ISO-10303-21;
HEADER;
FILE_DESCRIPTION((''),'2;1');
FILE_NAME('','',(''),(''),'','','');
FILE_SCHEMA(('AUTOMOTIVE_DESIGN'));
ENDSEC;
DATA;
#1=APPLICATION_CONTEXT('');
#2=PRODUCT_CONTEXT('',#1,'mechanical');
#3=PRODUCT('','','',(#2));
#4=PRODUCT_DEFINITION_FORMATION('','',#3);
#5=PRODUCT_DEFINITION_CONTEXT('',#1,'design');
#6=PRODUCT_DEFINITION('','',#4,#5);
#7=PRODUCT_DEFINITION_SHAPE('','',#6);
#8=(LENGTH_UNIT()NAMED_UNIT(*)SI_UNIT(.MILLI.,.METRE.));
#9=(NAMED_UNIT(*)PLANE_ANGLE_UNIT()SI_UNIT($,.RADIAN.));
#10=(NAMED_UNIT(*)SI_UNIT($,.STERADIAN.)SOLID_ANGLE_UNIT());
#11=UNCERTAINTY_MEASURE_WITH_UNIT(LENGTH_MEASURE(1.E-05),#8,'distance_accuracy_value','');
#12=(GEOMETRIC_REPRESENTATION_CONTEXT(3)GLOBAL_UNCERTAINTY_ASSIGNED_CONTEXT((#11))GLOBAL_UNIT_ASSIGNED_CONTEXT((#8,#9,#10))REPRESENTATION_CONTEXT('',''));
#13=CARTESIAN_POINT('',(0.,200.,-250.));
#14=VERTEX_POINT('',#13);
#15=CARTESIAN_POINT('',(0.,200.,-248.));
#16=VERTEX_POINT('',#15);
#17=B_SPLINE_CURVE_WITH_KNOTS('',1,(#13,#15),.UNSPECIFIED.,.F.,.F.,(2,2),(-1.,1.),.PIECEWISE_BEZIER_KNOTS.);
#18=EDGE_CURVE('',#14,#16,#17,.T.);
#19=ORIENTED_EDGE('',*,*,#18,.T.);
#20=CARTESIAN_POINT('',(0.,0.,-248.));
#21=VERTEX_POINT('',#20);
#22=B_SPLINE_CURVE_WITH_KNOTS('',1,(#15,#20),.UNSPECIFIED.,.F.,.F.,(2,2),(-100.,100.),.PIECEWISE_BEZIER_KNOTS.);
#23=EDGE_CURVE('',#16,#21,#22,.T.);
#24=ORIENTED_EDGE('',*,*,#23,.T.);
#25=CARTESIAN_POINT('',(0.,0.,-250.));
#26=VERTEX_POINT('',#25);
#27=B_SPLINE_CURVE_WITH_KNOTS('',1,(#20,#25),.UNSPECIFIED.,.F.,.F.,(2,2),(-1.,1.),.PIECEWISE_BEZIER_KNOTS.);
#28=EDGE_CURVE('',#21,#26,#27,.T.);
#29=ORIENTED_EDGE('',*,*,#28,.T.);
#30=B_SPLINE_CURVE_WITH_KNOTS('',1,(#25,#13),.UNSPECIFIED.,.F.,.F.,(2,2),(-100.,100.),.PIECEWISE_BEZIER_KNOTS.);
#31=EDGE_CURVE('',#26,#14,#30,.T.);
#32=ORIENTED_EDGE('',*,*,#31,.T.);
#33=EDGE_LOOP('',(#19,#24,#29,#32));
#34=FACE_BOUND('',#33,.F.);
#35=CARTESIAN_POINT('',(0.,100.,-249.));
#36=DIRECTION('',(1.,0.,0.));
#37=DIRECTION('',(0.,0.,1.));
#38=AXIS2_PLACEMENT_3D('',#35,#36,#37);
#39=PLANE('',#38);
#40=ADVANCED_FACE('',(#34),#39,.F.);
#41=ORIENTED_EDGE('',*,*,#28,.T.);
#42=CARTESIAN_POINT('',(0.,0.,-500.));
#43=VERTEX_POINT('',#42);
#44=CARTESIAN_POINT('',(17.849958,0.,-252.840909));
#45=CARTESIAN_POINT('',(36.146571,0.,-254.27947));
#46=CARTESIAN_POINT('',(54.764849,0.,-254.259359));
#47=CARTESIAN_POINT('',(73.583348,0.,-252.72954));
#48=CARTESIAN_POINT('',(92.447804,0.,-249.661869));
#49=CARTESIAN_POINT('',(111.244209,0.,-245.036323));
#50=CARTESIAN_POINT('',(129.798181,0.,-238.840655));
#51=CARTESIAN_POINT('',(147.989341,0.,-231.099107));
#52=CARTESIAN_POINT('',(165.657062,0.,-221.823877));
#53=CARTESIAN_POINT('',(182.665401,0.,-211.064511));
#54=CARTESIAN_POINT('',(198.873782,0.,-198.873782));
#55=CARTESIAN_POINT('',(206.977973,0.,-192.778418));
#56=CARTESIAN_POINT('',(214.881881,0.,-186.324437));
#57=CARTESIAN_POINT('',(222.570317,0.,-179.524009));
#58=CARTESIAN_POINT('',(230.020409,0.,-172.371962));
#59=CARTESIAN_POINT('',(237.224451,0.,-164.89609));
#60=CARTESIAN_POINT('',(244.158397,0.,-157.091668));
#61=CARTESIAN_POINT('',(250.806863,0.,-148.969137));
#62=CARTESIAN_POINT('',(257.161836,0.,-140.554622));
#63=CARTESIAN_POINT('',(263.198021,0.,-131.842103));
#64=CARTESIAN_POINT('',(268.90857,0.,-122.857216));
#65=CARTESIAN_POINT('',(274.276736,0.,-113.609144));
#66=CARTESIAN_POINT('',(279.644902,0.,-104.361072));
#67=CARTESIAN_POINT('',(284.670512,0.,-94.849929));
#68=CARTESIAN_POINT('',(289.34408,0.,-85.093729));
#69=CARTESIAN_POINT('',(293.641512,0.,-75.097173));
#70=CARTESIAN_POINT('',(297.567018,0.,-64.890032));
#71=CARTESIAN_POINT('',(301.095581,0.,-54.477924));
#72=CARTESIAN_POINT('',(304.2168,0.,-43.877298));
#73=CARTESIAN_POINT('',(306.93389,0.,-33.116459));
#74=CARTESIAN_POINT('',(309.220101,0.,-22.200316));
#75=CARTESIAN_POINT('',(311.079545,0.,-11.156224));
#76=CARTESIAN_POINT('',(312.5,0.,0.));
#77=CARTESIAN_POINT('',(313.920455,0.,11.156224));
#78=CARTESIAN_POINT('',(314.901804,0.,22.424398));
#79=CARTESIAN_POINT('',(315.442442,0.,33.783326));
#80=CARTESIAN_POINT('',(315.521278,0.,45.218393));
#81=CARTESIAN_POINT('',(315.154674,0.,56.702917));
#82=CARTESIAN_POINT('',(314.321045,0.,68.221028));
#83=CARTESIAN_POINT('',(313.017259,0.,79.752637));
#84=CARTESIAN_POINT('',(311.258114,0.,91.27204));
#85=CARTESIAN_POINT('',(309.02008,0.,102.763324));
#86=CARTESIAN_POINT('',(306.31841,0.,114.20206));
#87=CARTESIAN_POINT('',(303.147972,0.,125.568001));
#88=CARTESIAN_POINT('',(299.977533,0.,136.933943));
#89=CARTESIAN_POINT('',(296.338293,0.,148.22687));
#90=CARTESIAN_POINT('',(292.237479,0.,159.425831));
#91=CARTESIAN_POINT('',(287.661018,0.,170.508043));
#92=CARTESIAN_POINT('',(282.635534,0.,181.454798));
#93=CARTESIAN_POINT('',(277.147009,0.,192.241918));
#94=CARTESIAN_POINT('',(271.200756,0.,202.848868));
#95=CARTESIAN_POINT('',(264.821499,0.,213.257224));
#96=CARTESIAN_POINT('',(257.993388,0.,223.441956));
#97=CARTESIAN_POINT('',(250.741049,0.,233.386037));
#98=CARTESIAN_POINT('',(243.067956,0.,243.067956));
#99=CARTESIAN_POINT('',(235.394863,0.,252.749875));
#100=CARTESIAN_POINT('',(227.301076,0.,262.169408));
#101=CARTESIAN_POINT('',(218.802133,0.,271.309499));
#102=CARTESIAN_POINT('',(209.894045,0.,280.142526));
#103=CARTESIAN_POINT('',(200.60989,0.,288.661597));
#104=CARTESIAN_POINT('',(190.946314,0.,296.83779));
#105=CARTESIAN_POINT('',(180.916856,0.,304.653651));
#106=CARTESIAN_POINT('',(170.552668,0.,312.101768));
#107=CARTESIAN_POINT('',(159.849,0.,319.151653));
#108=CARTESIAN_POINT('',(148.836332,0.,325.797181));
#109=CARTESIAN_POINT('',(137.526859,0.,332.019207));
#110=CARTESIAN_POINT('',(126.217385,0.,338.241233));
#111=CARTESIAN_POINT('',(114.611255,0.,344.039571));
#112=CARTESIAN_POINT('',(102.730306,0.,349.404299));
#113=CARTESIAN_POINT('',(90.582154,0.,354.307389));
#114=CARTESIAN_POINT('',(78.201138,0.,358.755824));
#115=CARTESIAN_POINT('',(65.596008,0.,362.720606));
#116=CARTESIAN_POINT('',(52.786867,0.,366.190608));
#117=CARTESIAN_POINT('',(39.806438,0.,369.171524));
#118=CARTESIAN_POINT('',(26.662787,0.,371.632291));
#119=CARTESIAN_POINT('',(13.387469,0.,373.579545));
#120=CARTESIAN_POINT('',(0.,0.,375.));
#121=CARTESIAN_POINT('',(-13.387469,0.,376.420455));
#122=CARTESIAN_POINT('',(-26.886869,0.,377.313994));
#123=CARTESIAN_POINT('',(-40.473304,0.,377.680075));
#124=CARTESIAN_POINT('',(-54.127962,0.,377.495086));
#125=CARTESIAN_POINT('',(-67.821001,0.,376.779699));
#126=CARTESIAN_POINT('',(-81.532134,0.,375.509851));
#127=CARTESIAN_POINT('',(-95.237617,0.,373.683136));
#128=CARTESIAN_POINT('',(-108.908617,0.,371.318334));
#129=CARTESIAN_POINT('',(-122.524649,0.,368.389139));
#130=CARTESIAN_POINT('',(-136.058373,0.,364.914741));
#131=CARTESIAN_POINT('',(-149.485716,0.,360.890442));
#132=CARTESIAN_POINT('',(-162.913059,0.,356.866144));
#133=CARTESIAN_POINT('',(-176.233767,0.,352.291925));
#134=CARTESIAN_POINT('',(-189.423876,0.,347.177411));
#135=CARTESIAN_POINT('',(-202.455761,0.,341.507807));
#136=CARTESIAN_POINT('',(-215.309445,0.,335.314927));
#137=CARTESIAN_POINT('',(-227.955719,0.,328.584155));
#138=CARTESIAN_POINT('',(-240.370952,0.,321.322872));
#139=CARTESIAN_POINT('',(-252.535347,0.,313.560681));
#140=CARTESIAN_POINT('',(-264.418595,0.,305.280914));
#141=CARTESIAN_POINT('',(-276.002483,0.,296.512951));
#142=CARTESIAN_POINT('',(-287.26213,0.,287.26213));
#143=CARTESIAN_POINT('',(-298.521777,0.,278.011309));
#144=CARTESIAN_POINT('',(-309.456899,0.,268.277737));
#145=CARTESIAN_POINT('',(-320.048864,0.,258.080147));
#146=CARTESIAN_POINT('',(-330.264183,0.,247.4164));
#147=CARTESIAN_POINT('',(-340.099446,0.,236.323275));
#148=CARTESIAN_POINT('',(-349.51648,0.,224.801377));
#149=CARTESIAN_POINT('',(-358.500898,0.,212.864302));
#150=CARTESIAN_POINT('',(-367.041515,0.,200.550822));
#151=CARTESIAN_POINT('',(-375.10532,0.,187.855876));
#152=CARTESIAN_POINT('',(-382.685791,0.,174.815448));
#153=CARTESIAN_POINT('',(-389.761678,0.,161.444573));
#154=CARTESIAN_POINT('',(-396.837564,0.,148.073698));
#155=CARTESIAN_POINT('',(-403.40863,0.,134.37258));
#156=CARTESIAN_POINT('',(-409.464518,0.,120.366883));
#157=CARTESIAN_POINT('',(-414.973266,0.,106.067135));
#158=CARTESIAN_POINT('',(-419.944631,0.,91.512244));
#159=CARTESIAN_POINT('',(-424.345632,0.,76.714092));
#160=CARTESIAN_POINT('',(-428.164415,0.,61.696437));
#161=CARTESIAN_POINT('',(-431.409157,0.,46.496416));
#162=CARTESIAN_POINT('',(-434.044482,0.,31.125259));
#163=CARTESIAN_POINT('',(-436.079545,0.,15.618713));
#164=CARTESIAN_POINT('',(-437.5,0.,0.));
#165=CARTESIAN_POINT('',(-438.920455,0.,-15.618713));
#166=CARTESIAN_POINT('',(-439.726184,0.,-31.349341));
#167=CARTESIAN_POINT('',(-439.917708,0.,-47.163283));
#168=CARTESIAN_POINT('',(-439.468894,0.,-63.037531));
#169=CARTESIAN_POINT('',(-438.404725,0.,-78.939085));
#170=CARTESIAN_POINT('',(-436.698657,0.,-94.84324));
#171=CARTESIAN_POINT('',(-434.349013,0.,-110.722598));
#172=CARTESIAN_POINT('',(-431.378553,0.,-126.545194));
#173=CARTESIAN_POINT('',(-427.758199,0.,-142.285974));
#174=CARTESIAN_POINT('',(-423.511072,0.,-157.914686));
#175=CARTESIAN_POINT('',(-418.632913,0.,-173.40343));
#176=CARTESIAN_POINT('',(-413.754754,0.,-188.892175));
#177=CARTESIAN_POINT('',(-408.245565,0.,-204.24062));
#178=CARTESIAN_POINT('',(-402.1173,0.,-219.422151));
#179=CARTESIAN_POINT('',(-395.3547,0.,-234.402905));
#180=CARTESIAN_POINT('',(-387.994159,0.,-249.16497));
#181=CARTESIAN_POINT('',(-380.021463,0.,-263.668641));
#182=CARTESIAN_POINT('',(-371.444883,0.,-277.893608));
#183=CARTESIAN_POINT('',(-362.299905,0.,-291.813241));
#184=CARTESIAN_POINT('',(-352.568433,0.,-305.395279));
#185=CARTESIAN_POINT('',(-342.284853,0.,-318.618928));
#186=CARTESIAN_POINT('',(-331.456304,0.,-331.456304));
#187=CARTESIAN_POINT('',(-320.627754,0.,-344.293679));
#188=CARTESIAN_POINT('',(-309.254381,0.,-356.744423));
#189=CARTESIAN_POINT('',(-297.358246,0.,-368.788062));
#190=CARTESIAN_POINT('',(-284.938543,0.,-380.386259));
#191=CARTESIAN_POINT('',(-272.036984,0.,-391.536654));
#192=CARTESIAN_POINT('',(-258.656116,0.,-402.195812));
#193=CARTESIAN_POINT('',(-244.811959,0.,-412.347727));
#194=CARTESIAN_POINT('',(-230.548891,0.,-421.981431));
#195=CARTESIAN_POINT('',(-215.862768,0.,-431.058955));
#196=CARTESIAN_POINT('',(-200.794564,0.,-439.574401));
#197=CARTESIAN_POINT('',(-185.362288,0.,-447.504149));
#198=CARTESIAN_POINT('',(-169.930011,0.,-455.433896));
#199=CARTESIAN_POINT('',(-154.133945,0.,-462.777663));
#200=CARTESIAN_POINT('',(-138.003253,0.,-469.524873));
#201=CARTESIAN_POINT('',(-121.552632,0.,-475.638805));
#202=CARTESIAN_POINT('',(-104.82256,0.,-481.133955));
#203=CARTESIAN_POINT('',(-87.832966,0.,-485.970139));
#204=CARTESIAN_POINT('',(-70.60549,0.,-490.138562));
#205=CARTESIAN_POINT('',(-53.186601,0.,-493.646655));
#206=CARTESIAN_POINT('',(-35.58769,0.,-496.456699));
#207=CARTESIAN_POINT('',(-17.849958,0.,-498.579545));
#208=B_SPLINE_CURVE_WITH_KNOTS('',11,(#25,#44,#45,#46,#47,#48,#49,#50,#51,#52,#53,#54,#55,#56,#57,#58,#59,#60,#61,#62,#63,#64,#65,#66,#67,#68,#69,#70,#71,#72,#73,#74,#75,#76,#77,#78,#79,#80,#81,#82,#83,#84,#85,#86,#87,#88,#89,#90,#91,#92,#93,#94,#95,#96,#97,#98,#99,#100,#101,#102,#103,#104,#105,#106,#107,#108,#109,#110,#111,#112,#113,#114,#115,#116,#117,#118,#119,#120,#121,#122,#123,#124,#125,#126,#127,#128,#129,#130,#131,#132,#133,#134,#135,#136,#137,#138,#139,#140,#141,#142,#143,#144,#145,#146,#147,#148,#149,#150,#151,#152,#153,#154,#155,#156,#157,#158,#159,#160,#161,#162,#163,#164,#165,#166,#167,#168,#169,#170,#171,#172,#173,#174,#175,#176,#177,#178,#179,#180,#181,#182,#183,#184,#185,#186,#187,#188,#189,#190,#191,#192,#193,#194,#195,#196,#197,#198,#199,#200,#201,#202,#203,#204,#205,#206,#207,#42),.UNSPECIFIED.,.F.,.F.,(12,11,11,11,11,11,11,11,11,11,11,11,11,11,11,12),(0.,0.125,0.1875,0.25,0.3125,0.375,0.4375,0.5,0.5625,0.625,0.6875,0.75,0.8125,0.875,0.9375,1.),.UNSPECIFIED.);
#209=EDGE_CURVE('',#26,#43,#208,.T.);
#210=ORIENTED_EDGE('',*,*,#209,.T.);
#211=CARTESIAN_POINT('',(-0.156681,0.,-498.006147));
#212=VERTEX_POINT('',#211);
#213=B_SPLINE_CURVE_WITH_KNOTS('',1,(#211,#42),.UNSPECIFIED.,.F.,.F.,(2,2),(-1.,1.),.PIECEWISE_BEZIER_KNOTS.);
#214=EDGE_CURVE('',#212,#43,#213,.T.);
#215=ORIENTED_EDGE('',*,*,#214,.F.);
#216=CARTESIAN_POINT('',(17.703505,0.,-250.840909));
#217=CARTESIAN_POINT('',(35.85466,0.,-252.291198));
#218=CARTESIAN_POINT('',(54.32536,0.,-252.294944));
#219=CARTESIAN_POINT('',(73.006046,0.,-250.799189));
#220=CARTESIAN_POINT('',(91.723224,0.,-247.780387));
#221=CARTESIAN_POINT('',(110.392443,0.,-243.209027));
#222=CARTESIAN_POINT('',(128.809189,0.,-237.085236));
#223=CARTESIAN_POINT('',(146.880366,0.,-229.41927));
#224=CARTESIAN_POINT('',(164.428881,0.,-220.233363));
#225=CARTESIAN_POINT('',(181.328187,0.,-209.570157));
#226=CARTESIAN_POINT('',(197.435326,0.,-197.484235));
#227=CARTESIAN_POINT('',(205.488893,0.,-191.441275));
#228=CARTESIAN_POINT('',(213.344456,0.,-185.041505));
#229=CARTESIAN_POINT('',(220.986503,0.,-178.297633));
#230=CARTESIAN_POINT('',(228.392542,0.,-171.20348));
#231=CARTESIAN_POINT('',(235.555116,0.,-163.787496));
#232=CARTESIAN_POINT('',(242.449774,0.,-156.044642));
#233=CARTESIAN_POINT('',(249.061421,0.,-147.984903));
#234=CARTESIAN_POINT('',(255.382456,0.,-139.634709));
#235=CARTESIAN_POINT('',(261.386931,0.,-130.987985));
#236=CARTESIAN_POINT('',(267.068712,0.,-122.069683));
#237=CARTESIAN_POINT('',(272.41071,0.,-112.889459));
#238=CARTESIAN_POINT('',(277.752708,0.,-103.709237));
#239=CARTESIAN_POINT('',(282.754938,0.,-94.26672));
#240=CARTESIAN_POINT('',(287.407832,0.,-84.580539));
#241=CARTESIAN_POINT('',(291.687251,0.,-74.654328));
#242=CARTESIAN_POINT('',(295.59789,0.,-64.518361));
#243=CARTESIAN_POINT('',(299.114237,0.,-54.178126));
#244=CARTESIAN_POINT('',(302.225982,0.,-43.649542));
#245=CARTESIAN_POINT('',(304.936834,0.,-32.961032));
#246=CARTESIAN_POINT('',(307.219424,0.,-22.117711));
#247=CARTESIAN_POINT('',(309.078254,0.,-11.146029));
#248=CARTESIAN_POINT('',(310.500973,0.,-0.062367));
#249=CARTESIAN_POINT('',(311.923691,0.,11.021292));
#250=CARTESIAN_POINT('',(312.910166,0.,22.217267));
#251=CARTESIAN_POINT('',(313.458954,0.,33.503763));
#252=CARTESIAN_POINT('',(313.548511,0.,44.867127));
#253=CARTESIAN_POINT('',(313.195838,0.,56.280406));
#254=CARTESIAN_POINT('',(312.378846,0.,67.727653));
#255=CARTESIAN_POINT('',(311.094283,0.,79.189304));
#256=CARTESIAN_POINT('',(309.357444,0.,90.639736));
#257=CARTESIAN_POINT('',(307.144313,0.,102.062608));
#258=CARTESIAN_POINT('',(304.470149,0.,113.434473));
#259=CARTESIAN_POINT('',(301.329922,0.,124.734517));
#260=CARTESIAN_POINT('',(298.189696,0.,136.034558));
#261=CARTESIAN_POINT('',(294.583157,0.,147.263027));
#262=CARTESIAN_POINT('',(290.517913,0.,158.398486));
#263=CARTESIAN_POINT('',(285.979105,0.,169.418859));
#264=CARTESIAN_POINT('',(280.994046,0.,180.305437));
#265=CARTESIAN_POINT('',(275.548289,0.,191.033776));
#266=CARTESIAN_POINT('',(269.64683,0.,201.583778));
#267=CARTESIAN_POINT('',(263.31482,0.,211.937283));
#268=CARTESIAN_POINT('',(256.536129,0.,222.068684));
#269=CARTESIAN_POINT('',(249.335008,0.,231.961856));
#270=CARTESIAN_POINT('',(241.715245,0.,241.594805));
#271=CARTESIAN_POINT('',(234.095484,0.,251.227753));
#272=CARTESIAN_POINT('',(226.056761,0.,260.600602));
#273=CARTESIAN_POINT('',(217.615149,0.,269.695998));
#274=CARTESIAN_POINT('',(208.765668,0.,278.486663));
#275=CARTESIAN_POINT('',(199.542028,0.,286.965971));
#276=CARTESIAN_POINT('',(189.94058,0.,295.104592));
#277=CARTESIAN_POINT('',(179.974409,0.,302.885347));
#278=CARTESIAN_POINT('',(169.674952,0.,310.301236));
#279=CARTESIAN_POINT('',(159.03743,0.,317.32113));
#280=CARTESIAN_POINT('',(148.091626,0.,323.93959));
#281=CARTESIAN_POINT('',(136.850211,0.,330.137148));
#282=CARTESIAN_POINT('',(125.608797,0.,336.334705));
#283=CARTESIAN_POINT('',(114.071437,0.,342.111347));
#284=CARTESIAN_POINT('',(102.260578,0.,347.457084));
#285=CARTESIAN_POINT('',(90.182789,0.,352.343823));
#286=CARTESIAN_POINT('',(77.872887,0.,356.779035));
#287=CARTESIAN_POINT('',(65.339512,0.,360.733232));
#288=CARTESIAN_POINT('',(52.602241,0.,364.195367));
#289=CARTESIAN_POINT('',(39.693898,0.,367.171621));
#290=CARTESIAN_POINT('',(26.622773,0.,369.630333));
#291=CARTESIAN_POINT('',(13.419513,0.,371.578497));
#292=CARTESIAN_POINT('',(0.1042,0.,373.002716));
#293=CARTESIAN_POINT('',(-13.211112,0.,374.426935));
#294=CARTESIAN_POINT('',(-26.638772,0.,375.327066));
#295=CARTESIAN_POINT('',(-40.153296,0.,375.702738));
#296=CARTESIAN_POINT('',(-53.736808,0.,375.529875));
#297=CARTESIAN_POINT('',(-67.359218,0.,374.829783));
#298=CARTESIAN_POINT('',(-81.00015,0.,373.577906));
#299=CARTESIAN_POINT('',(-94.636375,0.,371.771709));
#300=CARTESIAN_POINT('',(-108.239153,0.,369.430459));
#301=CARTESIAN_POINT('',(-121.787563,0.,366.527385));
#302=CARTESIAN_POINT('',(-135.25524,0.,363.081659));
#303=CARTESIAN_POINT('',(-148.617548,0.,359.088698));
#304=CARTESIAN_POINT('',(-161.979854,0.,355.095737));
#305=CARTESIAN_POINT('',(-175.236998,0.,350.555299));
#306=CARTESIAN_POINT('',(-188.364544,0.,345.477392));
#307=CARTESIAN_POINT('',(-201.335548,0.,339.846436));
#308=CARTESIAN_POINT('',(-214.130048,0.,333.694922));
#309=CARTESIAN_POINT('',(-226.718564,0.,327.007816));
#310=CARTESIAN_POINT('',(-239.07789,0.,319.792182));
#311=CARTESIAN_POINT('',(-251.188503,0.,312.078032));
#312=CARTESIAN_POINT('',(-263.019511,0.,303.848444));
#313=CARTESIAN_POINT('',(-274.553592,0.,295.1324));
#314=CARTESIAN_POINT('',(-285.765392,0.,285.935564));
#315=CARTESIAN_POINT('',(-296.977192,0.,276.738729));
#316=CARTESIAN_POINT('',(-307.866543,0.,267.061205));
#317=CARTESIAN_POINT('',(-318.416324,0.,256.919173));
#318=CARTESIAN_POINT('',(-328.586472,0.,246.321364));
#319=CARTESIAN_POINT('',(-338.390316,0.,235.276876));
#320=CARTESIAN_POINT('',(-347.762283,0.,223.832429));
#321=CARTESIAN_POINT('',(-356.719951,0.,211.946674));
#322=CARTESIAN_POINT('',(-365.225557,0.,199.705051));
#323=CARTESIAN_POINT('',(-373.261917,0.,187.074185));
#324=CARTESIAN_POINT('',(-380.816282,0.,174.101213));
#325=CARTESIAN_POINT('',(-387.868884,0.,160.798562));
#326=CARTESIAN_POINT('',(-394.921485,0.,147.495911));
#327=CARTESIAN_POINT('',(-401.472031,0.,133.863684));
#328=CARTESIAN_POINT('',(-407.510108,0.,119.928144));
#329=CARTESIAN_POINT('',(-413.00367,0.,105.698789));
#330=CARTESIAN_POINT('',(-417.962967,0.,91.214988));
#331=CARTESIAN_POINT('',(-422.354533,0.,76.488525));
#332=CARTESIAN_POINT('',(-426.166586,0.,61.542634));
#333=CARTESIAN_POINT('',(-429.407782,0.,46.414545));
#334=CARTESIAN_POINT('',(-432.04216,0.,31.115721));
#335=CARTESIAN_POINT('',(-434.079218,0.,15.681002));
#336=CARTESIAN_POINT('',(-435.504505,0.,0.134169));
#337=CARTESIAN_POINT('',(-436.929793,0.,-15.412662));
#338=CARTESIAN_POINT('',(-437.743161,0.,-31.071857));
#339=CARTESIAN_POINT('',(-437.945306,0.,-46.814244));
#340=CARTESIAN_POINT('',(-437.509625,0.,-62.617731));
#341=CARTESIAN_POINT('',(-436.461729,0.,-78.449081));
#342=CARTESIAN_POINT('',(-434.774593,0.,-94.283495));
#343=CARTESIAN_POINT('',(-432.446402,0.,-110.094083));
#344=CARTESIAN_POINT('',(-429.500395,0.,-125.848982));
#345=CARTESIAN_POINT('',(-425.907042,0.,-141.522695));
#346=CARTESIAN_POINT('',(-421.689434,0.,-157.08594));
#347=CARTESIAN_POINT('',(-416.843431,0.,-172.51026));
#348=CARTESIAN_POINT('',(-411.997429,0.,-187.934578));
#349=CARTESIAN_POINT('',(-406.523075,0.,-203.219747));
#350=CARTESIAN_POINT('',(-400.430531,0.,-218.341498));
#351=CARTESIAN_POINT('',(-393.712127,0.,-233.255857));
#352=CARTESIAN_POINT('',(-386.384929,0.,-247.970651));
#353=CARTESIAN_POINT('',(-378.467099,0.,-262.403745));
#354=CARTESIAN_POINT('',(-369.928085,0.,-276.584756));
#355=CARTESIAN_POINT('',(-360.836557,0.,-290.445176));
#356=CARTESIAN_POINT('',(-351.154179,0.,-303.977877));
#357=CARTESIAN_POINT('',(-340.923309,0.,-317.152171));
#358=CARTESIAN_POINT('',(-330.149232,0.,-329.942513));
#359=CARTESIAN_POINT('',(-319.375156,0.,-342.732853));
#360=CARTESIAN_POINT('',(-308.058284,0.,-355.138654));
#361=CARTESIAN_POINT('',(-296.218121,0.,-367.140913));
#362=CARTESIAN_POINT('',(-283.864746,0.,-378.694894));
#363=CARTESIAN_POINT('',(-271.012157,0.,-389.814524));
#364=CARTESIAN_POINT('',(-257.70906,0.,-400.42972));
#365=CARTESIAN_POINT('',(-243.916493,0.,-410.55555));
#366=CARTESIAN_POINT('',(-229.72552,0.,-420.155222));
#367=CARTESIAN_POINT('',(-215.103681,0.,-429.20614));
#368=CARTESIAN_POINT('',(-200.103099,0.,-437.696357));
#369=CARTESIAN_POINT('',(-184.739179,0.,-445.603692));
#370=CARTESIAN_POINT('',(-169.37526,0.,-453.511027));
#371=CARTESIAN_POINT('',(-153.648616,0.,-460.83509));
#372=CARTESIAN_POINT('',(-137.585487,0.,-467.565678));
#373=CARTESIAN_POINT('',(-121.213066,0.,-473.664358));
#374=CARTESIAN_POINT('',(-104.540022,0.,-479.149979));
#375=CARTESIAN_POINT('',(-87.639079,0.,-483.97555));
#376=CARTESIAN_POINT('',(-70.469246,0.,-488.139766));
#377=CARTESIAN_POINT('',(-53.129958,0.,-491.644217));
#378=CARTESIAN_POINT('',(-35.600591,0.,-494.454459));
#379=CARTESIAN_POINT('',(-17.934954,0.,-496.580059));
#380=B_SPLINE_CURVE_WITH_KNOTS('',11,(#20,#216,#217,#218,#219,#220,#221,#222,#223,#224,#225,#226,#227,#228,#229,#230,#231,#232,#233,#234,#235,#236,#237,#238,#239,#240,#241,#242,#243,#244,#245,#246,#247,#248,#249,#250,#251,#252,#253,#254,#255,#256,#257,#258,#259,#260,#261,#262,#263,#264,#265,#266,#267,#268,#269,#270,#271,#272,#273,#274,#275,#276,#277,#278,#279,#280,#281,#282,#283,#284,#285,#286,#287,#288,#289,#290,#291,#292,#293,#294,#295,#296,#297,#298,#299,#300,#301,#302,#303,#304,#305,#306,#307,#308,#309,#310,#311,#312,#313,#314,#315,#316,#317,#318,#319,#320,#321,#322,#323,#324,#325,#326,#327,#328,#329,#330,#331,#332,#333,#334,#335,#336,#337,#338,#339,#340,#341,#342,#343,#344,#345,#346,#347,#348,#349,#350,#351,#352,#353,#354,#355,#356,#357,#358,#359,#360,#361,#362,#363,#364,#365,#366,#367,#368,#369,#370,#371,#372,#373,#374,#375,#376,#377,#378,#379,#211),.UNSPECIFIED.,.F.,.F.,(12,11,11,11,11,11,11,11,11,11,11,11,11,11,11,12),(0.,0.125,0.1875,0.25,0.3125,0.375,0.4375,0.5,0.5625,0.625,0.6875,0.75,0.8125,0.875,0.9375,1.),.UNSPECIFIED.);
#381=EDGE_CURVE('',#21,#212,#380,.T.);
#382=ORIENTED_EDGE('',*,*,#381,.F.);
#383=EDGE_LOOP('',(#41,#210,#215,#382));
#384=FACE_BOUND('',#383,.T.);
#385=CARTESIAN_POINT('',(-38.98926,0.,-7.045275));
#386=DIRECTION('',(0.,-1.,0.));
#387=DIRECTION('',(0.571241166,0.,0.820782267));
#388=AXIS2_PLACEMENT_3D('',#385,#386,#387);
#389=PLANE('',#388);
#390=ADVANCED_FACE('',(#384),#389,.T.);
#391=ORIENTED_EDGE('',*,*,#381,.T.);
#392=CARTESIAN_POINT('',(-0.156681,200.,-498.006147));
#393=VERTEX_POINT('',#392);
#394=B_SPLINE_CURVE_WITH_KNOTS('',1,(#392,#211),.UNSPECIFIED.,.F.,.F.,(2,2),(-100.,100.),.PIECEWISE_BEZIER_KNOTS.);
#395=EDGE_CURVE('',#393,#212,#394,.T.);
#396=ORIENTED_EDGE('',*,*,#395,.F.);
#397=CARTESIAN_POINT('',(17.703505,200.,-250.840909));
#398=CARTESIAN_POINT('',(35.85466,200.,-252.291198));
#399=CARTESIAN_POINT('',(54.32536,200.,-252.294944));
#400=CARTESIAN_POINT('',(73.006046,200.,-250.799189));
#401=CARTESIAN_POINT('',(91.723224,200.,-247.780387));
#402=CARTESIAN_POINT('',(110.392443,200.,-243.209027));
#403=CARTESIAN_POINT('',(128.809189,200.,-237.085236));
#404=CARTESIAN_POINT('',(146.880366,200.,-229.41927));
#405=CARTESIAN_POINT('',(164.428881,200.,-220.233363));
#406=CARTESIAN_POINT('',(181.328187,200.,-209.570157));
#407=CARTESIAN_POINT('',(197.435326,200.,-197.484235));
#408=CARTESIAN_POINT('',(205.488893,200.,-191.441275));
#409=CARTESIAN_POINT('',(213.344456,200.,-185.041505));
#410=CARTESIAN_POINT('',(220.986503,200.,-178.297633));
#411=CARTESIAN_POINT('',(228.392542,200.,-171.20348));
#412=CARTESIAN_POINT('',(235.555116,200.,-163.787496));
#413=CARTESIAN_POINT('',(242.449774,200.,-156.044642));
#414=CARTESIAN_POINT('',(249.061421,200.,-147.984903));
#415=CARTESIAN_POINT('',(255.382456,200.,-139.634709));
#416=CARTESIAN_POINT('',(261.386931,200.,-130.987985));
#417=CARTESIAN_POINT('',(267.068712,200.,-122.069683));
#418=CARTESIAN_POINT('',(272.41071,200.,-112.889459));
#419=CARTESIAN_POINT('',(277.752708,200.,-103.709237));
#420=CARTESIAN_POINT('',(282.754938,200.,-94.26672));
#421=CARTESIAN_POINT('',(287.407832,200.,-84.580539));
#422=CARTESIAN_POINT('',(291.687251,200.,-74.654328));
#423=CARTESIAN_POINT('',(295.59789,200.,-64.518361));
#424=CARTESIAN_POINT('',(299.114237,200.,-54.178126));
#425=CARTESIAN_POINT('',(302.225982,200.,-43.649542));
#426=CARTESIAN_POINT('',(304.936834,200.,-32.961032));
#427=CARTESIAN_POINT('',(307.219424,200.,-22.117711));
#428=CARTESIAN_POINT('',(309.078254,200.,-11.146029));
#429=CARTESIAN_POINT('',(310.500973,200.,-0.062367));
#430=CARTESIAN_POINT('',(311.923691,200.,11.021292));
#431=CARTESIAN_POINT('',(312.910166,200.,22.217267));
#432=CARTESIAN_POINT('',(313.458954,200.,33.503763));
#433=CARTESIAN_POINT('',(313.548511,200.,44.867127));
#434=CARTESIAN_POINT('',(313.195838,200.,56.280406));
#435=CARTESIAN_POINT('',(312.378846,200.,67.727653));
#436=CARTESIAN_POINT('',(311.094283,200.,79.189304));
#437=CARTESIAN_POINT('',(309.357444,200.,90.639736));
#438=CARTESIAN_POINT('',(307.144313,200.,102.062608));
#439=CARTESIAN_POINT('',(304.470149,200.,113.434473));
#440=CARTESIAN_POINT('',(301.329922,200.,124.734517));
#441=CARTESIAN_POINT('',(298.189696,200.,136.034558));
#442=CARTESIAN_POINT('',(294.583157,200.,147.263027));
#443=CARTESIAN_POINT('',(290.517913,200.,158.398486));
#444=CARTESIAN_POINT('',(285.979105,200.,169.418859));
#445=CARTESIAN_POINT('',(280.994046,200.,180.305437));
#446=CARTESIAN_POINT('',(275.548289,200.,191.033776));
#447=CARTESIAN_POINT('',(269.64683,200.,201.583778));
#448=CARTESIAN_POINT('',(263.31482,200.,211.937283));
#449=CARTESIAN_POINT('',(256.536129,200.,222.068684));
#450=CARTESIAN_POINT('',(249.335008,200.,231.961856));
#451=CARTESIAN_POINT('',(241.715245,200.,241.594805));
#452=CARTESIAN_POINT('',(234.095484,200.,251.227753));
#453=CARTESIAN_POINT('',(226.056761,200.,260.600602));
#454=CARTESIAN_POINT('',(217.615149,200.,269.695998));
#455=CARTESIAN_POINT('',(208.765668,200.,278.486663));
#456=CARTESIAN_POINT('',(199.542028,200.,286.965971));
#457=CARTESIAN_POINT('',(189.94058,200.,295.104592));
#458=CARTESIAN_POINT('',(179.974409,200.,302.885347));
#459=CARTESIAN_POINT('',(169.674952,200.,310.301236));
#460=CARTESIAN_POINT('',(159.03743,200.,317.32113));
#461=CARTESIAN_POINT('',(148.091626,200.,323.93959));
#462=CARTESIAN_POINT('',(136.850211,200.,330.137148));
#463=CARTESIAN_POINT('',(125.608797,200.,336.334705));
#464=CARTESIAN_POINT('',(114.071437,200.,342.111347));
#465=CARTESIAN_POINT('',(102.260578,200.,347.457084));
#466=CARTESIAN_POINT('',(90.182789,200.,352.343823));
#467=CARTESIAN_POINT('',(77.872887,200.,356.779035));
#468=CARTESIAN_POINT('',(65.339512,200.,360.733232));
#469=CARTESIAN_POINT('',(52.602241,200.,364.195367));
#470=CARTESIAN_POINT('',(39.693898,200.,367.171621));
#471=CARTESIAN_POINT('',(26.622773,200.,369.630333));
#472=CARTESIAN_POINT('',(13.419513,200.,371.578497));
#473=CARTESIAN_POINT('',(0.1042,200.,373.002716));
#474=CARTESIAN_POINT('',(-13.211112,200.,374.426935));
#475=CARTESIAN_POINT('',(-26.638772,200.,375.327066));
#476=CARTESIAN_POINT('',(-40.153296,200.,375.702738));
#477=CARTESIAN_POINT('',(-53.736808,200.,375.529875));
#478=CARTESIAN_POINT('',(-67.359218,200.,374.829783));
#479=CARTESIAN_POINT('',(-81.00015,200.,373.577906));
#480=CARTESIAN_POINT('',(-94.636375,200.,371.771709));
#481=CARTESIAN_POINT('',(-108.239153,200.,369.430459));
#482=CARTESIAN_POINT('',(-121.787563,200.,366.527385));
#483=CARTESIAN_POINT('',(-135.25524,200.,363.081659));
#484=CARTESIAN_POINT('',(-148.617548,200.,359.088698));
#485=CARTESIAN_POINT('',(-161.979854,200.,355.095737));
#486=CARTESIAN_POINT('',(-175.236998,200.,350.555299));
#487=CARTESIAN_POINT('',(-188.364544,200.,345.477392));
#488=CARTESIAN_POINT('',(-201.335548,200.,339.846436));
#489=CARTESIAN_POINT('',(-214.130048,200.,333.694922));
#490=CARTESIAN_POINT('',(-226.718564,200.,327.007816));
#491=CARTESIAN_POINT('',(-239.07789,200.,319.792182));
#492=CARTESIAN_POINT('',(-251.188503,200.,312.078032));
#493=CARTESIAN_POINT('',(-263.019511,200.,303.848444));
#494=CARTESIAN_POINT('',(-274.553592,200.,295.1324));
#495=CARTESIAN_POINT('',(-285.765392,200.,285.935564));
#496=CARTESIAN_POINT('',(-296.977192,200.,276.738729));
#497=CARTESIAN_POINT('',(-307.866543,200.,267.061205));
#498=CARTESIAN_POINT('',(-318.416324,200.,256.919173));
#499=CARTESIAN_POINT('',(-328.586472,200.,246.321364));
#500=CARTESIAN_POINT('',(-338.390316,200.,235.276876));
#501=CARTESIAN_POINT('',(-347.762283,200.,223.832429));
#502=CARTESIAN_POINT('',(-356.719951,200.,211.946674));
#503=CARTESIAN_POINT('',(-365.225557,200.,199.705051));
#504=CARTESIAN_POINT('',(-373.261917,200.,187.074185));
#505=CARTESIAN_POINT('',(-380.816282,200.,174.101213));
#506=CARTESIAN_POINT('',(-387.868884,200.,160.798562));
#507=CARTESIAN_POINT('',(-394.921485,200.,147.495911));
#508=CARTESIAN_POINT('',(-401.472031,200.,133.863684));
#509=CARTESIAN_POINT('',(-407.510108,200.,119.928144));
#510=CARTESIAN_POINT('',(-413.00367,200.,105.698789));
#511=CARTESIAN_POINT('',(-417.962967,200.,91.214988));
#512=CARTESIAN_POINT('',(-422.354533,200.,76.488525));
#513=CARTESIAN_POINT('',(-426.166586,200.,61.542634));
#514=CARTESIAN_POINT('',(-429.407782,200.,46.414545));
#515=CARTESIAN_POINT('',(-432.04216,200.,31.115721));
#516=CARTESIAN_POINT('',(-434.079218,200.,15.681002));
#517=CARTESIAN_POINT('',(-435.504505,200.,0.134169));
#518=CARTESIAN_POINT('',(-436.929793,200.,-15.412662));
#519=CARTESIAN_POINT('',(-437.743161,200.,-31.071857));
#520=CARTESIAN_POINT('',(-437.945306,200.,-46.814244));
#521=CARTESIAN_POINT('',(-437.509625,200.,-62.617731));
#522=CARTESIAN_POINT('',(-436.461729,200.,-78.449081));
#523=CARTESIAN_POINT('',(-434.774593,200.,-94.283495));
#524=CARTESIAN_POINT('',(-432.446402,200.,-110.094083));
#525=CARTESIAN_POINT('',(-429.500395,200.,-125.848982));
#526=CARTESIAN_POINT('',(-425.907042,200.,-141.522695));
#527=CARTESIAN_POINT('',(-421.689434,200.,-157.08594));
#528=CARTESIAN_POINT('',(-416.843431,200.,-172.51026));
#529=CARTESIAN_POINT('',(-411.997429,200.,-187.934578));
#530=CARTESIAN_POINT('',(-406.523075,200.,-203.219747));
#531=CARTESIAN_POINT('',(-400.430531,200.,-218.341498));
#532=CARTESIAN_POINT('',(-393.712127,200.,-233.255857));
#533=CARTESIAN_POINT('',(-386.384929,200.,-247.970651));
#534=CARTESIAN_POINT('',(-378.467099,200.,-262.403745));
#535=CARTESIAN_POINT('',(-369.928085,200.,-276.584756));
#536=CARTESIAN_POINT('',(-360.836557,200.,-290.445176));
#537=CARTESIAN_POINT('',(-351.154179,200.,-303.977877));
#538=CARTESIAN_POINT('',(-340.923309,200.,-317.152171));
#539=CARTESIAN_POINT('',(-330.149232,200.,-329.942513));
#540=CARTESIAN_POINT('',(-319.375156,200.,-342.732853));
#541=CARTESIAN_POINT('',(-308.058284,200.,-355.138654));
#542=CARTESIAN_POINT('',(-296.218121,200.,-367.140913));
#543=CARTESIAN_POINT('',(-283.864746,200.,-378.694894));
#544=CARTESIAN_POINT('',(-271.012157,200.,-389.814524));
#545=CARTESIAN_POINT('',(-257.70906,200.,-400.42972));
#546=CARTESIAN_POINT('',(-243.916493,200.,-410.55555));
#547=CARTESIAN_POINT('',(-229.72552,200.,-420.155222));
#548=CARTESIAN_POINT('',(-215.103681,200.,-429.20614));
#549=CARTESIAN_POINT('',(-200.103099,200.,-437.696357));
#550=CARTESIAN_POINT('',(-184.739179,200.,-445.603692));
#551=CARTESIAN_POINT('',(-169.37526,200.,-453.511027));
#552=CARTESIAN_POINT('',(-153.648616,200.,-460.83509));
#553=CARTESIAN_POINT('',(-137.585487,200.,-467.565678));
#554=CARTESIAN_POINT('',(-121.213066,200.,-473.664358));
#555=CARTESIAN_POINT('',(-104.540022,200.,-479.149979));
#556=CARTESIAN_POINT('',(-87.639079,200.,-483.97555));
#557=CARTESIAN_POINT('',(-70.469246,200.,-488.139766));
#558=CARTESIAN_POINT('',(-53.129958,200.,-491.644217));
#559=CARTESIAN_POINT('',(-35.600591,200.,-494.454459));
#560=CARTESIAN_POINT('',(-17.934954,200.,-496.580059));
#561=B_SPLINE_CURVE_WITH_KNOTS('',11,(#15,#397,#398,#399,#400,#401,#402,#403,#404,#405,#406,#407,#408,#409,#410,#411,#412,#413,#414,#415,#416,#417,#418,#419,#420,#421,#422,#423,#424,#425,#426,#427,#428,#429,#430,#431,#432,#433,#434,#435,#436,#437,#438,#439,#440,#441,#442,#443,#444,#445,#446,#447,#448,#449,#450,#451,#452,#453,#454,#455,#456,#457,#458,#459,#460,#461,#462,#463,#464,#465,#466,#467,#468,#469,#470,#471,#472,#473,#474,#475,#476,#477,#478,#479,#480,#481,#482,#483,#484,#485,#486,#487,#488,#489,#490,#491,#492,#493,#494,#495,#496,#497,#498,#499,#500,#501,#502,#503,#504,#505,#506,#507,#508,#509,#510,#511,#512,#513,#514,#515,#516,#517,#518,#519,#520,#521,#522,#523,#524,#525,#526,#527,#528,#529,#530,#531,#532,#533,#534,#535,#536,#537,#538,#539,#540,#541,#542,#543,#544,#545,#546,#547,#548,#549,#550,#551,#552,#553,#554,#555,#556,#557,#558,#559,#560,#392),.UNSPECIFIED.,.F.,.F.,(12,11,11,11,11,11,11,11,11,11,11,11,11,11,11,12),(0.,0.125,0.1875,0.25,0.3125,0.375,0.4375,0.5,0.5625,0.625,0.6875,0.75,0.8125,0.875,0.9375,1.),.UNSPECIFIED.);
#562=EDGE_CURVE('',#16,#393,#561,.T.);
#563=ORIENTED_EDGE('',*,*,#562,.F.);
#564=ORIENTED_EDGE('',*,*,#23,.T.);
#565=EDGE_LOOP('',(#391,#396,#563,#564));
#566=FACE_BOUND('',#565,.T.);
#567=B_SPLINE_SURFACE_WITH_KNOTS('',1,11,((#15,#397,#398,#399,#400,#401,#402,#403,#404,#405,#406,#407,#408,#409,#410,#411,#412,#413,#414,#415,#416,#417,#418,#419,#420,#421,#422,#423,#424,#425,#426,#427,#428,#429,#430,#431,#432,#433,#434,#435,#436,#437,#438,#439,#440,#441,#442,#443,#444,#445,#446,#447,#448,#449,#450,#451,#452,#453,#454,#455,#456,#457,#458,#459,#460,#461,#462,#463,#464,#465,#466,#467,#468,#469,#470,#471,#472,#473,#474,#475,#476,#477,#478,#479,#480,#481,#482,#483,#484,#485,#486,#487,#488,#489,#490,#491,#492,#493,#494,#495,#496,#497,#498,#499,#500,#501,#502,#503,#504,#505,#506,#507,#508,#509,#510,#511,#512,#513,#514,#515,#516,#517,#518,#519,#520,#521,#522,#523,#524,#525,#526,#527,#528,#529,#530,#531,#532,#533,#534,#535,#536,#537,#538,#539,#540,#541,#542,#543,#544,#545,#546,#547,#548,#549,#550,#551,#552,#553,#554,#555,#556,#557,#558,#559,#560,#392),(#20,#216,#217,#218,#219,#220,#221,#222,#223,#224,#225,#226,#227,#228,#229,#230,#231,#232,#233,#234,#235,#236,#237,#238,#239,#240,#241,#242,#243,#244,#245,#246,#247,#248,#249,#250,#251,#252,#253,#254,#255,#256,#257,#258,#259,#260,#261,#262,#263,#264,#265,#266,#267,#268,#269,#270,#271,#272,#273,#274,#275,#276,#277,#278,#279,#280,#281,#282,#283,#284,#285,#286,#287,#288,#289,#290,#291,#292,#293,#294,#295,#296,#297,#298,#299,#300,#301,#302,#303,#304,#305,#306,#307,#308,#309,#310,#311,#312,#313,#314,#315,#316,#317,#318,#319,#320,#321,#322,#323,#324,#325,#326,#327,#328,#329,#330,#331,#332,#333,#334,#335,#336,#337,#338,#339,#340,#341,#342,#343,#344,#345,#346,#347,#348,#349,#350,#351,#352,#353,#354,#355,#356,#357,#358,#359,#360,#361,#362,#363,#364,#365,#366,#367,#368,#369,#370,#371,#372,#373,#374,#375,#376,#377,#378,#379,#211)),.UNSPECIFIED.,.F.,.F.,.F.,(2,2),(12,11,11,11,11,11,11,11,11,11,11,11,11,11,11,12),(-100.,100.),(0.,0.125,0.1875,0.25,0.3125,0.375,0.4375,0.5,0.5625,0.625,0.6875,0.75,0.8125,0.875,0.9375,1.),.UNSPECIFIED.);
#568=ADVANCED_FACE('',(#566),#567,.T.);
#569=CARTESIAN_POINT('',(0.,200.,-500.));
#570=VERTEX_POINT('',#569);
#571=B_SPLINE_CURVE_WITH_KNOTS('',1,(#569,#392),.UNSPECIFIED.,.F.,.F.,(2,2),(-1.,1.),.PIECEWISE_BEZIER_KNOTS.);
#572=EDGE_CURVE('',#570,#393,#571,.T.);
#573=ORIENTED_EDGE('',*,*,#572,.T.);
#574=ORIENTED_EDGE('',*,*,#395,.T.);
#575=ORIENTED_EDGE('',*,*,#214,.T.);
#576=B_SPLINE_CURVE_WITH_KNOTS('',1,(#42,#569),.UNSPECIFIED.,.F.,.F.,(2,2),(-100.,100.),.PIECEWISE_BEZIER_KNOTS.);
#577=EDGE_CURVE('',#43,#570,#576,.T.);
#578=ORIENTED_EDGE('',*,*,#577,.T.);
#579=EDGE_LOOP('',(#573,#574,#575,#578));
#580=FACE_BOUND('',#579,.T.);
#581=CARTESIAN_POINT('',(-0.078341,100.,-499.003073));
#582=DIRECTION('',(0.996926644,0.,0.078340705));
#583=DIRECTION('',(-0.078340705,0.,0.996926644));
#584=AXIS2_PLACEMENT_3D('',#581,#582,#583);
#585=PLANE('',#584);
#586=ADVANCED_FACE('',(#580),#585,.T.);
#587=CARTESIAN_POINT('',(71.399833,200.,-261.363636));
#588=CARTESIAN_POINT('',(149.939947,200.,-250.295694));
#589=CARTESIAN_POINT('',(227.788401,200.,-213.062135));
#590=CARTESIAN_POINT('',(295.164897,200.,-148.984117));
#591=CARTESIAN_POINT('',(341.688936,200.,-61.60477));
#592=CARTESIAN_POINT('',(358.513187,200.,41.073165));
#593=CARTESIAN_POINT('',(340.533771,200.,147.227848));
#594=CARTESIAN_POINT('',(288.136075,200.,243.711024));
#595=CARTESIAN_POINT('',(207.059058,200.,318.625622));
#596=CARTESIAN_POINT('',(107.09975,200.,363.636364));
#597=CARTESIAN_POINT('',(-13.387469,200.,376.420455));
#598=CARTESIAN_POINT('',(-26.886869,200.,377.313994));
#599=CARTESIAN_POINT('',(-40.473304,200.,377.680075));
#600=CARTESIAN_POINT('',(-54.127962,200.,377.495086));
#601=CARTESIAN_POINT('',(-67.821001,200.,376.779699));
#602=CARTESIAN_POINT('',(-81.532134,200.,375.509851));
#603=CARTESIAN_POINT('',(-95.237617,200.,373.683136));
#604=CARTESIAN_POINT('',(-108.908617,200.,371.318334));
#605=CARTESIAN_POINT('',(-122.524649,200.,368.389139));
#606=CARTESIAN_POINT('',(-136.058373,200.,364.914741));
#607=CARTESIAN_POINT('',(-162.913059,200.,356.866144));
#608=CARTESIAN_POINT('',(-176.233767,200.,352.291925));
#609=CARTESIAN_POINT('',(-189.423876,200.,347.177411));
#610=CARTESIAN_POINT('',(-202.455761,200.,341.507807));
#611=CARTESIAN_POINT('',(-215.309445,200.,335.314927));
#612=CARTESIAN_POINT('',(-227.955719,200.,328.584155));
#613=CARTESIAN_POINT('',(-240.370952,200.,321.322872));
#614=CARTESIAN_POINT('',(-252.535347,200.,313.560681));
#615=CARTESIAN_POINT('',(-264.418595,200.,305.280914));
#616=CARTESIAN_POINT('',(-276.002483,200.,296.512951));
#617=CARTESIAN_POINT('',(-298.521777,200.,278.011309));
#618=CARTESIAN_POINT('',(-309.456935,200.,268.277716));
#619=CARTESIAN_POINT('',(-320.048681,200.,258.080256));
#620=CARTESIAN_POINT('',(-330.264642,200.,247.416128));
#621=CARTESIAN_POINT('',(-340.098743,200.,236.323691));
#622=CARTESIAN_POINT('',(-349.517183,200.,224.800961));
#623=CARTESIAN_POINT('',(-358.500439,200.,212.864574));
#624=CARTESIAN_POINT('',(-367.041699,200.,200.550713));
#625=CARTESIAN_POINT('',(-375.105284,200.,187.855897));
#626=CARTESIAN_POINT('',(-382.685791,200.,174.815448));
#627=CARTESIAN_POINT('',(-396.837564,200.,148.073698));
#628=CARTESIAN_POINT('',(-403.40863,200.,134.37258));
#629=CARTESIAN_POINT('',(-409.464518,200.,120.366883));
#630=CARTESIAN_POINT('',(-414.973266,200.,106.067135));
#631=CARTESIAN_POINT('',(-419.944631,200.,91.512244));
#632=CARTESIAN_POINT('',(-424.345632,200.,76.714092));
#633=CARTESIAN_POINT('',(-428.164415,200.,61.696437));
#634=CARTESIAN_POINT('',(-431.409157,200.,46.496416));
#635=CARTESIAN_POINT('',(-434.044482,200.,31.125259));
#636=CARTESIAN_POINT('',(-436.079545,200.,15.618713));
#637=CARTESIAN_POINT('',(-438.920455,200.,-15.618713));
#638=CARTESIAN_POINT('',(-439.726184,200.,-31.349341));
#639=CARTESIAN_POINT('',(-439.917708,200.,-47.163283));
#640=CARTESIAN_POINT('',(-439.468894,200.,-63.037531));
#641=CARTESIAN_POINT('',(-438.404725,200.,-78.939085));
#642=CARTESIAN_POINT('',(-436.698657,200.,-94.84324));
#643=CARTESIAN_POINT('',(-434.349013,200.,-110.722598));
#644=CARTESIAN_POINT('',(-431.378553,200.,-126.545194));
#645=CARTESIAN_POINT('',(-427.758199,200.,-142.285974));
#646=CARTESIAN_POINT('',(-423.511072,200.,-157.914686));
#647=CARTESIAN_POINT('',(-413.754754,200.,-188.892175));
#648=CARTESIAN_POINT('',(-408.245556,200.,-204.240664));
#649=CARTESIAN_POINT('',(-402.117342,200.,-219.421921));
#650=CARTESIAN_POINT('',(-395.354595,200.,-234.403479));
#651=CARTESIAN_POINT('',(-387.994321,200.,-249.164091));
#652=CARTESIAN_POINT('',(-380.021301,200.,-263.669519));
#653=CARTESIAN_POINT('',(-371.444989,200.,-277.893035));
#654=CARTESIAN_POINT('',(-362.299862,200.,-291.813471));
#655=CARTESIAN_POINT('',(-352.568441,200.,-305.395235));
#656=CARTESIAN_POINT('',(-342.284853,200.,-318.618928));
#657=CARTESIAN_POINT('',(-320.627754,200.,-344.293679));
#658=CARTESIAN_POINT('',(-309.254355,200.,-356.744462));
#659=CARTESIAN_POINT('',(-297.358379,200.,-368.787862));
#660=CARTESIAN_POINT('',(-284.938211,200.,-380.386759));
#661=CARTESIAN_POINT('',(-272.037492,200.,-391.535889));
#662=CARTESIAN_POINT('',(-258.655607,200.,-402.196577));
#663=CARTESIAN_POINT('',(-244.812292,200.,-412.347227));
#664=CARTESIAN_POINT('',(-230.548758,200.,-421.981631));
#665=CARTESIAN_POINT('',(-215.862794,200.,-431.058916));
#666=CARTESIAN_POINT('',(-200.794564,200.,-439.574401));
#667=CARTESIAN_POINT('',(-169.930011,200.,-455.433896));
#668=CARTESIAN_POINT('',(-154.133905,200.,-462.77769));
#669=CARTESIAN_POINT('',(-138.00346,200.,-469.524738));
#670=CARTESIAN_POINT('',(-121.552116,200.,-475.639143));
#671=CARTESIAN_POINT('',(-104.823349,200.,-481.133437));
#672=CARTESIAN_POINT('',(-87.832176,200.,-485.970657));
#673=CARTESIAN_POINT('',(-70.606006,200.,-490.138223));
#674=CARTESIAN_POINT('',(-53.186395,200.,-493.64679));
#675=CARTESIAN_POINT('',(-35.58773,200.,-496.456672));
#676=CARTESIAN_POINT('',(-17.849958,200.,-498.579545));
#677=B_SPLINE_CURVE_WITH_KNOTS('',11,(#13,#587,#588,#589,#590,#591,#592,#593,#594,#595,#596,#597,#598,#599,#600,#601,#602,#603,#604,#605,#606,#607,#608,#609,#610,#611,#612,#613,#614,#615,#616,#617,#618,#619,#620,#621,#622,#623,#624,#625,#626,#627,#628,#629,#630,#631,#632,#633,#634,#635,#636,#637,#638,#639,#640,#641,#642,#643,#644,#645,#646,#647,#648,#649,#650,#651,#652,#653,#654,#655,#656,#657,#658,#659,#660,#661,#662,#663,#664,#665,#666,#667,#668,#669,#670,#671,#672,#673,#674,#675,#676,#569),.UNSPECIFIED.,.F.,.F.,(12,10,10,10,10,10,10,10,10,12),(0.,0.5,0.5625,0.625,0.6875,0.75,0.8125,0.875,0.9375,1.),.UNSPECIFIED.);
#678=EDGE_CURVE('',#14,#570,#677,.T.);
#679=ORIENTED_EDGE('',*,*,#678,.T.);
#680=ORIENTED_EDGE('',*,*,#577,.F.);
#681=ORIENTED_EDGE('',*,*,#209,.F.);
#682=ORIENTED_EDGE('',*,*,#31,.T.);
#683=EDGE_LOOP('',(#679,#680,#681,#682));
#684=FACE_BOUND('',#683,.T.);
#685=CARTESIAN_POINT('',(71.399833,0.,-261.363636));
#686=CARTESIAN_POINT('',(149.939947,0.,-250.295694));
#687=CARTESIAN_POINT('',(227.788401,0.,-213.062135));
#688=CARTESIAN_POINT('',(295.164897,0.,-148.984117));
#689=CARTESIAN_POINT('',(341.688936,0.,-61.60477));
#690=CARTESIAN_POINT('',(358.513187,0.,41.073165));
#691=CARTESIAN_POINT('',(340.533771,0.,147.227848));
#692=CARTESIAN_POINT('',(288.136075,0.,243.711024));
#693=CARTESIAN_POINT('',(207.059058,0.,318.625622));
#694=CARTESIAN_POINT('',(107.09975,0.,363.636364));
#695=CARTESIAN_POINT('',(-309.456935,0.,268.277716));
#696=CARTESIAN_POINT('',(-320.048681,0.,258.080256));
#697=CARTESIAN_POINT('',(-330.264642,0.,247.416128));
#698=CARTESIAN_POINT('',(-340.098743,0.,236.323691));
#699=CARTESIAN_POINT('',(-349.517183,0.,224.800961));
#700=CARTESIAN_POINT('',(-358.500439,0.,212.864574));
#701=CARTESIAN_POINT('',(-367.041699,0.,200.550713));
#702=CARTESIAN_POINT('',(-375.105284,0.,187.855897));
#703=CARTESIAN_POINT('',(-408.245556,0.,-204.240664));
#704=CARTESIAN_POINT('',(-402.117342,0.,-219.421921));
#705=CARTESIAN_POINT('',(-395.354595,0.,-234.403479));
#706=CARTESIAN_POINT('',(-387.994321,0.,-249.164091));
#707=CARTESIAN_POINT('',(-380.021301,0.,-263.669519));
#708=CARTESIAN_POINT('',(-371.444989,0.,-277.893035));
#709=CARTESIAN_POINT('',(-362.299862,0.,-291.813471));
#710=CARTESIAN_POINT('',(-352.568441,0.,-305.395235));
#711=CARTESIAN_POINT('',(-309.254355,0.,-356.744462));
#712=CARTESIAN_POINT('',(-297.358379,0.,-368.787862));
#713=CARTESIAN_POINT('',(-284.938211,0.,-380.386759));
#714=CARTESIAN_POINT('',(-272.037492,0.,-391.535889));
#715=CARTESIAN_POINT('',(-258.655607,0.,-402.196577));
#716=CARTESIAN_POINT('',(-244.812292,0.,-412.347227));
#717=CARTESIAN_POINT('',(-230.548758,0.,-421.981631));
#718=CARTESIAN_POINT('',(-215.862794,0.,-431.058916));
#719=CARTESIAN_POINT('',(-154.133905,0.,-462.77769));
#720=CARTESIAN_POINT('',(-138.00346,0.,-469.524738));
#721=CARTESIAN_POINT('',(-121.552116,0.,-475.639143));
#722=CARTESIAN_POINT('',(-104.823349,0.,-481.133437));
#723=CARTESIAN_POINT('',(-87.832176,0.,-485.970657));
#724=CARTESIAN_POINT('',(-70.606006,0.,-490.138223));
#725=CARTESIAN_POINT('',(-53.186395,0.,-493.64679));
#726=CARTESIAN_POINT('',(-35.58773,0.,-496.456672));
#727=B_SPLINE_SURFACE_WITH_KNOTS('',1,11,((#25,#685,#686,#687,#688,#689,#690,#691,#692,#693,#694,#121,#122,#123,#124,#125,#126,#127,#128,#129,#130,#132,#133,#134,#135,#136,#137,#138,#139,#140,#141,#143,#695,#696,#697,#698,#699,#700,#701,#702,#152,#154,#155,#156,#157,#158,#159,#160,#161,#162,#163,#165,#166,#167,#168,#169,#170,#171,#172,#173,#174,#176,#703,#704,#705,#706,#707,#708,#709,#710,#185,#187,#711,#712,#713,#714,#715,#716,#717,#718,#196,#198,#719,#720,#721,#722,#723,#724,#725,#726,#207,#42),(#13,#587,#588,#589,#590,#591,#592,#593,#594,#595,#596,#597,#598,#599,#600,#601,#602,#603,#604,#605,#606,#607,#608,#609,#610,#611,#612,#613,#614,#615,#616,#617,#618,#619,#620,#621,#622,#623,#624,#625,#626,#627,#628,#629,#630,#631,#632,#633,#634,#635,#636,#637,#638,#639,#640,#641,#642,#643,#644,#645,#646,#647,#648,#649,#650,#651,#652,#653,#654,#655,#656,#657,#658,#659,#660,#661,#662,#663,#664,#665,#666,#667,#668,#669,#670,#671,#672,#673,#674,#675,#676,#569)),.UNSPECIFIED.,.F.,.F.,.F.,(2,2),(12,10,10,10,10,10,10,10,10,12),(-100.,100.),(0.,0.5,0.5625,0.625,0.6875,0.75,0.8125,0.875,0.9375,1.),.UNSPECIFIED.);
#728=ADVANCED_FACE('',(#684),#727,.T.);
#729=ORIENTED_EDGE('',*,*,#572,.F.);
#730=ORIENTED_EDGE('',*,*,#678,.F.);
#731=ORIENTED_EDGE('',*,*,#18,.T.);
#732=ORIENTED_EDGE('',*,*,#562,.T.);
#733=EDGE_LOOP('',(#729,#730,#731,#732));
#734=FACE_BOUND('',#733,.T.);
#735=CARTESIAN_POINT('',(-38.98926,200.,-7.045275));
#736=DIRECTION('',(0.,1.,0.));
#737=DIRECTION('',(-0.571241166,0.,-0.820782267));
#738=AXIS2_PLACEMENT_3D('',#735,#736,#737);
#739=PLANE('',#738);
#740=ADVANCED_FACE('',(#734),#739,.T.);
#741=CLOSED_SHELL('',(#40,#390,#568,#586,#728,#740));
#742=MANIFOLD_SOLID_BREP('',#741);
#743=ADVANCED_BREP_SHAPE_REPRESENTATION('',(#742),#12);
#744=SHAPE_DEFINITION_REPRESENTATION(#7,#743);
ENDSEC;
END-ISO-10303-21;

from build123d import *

# Parameters (mm, degrees)
SKETCH4_W = 2
SKETCH4_H = 200


with BuildPart() as part:
    # Sweep1: sweep along a curve in space
    with BuildLine() as sweep1_path:
        add(Edge.make_bspline(
            [(0, 0, -250), (8.181230869, 0, -251.302083333), (16.490485858, 0, -252.202239115), (33.283843215, 0, -253.165004898), (41.767918014, 0, -253.227597369), (58.825529276, 0, -252.489812839), (67.399036198, 0, -251.689421172), (84.546849552, 0, -249.209035813), (93.121124768, 0, -247.529030536), (110.179448676, 0, -243.28197111), (118.663464802, 0, -240.714908644), (135.448838644, 0, -234.695772919), (143.750162786, 0, -231.243694762), (160.077308396, 0, -223.466249466), (168.103095642, 0, -219.140880964), (183.786929167, 0, -209.638354886), (191.44494095, 0, -204.461199558), (206.302623467, 0, -193.286364859), (213.502259812, 0, -187.288691386), (227.355264371, 0, -174.513728488), (234.008598689, 0, -167.736448609), (246.684770924, 0, -153.452592355), (252.707575824, 0, -145.946029132), (264.043165005, 0, -130.262996352), (269.35591753, 0, -122.086543468), (279.197554898, 0, -105.131744499), (283.726409621, 0, -96.353418486), (291.933011092, 0, -78.270957675), (295.610729717, 0, -68.966846184), (302.055300528, 0, -49.916318794), (304.822126933, 0, -40.169929234), (309.39344656, 0, -20.325024564), (311.197916667, 0, -10.226538586), (313.802083333, 0, 10.226538586), (314.601759746, 0, 20.581098128), (315.163575101, 0, 41.445373487), (314.925697135, 0, 51.955055437), (313.389873123, 0, 73.024682105), (312.091913646, 0, 83.584591073), (308.424085306, 0, 104.646879334), (306.054206696, 0, 115.149221353), (300.241736515, 0, 135.986781136), (296.799139049, 0, 146.321960485), (288.851700557, 0, 166.714935063), (284.346857616, 0, 176.772691135), (274.29678815, 0, 196.501059175), (268.751563779, 0, 206.171631657), (256.653978741, 0, 225.017553673), (250.101624339, 0, 234.192863818), (236.034287727, 0, 251.943048248), (228.519315892, 0, 260.517883668), (212.582264503, 0, 276.965947186), (204.160199387, 0, 284.839137372), (186.475120704, 0, 299.787933778), (177.212125552, 0, 306.863503462), (157.921492035, 0, 320.127395411), (147.893875928, 0, 326.315682935), (127.159841084, 0, 337.722731058), (116.453448267, 0, 342.941459114), (94.45651255, 0, 352.335503566), (83.165999013, 0, 356.510790002), (60.103456218, 0, 363.753400295), (48.331459506, 0, 366.820697137), (24.415636833, 0, 371.79296719), (12.271846303, 0, 373.697916667), (-12.271846303, 0, 376.302083333), (-24.671710397, 0, 377.001280376), (-49.606903759, 0, 377.162145305), (-62.14219286, 0, 376.623796902), (-87.223834934, 0, 374.289933407), (-99.770145948, 0, 372.49440612), (-124.746909116, 0, 367.639134798), (-137.177317938, 0, 364.579382855), (-161.794113597, 0, 357.201501919), (-173.980456169, 0, 352.883369455), (-197.981031483, 0, 343.007628195), (-209.795219484, 0, 337.45002047), (-232.924809953, 0, 325.127326834), (-244.240167671, 0, 318.362246594), (-266.248178179, 0, 303.669602597), (-276.940786686, 0, 295.742049119), (-297.583473029, 0, 278.782210595), (-307.533507523, 0, 269.749940398), (-326.576630001, 0, 250.650800517), (-335.669676056, 0, 240.583950166), (-352.891096632, 0, 219.497649054), (-361.0194311, 0, 208.478221971), (-376.211625816, 0, 185.579987719), (-383.275448339, 0, 173.701208389), (-396.247907217, 0, 149.18793767), (-402.156508607, 0, 136.553478049), (-412.73799604, 0, 110.642067425), (-417.410850286, 0, 97.365151842), (-425.451500061, 0, 70.290593641), (-428.81926734, 0, 56.492989778), (-434.192487821, 0, 28.506249102), (-436.197916667, 0, 14.31715402), (-438.802083333, 0, -14.31715402), (-439.400801007, 0, -28.762322666), (-439.160715508, 0, -57.768434031), (-438.321896668, 0, -72.329330283), (-435.189993691, 0, -101.422987763), (-432.896898594, 0, -115.955700823), (-426.854184291, 0, -144.846938898), (-423.104559014, 0, -159.205414524), (-414.161267324, 0, -187.601446057), (-408.96759986, 0, -201.638951853), (-397.163555833, 0, -229.247127902), (-390.553183323, 0, -242.817747834), (-375.957865518, 0, -269.348560731), (-367.972929409, 0, -282.308703686), (-350.685226452, 0, -307.478802685), (-341.3824739, 0, -319.688709553), (-321.530133463, 0, -343.223897809), (-310.980564904, 0, -354.549131378), (-288.719336532, 0, -376.187312816), (-277.007700944, 0, -386.50021474), (-252.520177403, 0, -405.994259486), (-239.744318391, 0, -415.175358738), (-213.238483403, 0, -432.295856222), (-199.508540849, 0, -440.235213744), (-171.216034255, 0, -454.773083377), (-156.653507831, 0, -461.3715581), (-126.8276223, 0, -473.140488514), (-111.564304671, 0, -478.31091057), (-80.477731064, 0, -487.149599827), (-64.65452005, 0, -490.817837544), (-32.596861371, 0, -496.592008451), (-16.362461737, 0, -498.697916667), (0, 0, -500)],
            knots=[0, 0, 0, 0, 0.015625, 0.015625, 0.03125, 0.03125, 0.046875, 0.046875, 0.0625, 0.0625, 0.078125, 0.078125, 0.09375, 0.09375, 0.109375, 0.109375, 0.125, 0.125, 0.140625, 0.140625, 0.15625, 0.15625, 0.171875, 0.171875, 0.1875, 0.1875, 0.203125, 0.203125, 0.21875, 0.21875, 0.234375, 0.234375, 0.25, 0.25, 0.265625, 0.265625, 0.28125, 0.28125, 0.296875, 0.296875, 0.3125, 0.3125, 0.328125, 0.328125, 0.34375, 0.34375, 0.359375, 0.359375, 0.375, 0.375, 0.390625, 0.390625, 0.40625, 0.40625, 0.421875, 0.421875, 0.4375, 0.4375, 0.453125, 0.453125, 0.46875, 0.46875, 0.484375, 0.484375, 0.5, 0.5, 0.515625, 0.515625, 0.53125, 0.53125, 0.546875, 0.546875, 0.5625, 0.5625, 0.578125, 0.578125, 0.59375, 0.59375, 0.609375, 0.609375, 0.625, 0.625, 0.640625, 0.640625, 0.65625, 0.65625, 0.671875, 0.671875, 0.6875, 0.6875, 0.703125, 0.703125, 0.71875, 0.71875, 0.734375, 0.734375, 0.75, 0.75, 0.765625, 0.765625, 0.78125, 0.78125, 0.796875, 0.796875, 0.8125, 0.8125, 0.828125, 0.828125, 0.84375, 0.84375, 0.859375, 0.859375, 0.875, 0.875, 0.890625, 0.890625, 0.90625, 0.90625, 0.921875, 0.921875, 0.9375, 0.9375, 0.953125, 0.953125, 0.96875, 0.96875, 0.984375, 0.984375, 1, 1, 1, 1], degree=3))
    # Sketch4 → Sweep1 (sweep)
    with BuildSketch(Plane(origin=(0, 0, 0), x_dir=(0, 0, -1), z_dir=(1, 0, 0))):
        with Locations((249, 100)):
            Rectangle(SKETCH4_W, SKETCH4_H)
    sweep(path=sweep1_path.line, is_frenet=True)


solid = part.part
